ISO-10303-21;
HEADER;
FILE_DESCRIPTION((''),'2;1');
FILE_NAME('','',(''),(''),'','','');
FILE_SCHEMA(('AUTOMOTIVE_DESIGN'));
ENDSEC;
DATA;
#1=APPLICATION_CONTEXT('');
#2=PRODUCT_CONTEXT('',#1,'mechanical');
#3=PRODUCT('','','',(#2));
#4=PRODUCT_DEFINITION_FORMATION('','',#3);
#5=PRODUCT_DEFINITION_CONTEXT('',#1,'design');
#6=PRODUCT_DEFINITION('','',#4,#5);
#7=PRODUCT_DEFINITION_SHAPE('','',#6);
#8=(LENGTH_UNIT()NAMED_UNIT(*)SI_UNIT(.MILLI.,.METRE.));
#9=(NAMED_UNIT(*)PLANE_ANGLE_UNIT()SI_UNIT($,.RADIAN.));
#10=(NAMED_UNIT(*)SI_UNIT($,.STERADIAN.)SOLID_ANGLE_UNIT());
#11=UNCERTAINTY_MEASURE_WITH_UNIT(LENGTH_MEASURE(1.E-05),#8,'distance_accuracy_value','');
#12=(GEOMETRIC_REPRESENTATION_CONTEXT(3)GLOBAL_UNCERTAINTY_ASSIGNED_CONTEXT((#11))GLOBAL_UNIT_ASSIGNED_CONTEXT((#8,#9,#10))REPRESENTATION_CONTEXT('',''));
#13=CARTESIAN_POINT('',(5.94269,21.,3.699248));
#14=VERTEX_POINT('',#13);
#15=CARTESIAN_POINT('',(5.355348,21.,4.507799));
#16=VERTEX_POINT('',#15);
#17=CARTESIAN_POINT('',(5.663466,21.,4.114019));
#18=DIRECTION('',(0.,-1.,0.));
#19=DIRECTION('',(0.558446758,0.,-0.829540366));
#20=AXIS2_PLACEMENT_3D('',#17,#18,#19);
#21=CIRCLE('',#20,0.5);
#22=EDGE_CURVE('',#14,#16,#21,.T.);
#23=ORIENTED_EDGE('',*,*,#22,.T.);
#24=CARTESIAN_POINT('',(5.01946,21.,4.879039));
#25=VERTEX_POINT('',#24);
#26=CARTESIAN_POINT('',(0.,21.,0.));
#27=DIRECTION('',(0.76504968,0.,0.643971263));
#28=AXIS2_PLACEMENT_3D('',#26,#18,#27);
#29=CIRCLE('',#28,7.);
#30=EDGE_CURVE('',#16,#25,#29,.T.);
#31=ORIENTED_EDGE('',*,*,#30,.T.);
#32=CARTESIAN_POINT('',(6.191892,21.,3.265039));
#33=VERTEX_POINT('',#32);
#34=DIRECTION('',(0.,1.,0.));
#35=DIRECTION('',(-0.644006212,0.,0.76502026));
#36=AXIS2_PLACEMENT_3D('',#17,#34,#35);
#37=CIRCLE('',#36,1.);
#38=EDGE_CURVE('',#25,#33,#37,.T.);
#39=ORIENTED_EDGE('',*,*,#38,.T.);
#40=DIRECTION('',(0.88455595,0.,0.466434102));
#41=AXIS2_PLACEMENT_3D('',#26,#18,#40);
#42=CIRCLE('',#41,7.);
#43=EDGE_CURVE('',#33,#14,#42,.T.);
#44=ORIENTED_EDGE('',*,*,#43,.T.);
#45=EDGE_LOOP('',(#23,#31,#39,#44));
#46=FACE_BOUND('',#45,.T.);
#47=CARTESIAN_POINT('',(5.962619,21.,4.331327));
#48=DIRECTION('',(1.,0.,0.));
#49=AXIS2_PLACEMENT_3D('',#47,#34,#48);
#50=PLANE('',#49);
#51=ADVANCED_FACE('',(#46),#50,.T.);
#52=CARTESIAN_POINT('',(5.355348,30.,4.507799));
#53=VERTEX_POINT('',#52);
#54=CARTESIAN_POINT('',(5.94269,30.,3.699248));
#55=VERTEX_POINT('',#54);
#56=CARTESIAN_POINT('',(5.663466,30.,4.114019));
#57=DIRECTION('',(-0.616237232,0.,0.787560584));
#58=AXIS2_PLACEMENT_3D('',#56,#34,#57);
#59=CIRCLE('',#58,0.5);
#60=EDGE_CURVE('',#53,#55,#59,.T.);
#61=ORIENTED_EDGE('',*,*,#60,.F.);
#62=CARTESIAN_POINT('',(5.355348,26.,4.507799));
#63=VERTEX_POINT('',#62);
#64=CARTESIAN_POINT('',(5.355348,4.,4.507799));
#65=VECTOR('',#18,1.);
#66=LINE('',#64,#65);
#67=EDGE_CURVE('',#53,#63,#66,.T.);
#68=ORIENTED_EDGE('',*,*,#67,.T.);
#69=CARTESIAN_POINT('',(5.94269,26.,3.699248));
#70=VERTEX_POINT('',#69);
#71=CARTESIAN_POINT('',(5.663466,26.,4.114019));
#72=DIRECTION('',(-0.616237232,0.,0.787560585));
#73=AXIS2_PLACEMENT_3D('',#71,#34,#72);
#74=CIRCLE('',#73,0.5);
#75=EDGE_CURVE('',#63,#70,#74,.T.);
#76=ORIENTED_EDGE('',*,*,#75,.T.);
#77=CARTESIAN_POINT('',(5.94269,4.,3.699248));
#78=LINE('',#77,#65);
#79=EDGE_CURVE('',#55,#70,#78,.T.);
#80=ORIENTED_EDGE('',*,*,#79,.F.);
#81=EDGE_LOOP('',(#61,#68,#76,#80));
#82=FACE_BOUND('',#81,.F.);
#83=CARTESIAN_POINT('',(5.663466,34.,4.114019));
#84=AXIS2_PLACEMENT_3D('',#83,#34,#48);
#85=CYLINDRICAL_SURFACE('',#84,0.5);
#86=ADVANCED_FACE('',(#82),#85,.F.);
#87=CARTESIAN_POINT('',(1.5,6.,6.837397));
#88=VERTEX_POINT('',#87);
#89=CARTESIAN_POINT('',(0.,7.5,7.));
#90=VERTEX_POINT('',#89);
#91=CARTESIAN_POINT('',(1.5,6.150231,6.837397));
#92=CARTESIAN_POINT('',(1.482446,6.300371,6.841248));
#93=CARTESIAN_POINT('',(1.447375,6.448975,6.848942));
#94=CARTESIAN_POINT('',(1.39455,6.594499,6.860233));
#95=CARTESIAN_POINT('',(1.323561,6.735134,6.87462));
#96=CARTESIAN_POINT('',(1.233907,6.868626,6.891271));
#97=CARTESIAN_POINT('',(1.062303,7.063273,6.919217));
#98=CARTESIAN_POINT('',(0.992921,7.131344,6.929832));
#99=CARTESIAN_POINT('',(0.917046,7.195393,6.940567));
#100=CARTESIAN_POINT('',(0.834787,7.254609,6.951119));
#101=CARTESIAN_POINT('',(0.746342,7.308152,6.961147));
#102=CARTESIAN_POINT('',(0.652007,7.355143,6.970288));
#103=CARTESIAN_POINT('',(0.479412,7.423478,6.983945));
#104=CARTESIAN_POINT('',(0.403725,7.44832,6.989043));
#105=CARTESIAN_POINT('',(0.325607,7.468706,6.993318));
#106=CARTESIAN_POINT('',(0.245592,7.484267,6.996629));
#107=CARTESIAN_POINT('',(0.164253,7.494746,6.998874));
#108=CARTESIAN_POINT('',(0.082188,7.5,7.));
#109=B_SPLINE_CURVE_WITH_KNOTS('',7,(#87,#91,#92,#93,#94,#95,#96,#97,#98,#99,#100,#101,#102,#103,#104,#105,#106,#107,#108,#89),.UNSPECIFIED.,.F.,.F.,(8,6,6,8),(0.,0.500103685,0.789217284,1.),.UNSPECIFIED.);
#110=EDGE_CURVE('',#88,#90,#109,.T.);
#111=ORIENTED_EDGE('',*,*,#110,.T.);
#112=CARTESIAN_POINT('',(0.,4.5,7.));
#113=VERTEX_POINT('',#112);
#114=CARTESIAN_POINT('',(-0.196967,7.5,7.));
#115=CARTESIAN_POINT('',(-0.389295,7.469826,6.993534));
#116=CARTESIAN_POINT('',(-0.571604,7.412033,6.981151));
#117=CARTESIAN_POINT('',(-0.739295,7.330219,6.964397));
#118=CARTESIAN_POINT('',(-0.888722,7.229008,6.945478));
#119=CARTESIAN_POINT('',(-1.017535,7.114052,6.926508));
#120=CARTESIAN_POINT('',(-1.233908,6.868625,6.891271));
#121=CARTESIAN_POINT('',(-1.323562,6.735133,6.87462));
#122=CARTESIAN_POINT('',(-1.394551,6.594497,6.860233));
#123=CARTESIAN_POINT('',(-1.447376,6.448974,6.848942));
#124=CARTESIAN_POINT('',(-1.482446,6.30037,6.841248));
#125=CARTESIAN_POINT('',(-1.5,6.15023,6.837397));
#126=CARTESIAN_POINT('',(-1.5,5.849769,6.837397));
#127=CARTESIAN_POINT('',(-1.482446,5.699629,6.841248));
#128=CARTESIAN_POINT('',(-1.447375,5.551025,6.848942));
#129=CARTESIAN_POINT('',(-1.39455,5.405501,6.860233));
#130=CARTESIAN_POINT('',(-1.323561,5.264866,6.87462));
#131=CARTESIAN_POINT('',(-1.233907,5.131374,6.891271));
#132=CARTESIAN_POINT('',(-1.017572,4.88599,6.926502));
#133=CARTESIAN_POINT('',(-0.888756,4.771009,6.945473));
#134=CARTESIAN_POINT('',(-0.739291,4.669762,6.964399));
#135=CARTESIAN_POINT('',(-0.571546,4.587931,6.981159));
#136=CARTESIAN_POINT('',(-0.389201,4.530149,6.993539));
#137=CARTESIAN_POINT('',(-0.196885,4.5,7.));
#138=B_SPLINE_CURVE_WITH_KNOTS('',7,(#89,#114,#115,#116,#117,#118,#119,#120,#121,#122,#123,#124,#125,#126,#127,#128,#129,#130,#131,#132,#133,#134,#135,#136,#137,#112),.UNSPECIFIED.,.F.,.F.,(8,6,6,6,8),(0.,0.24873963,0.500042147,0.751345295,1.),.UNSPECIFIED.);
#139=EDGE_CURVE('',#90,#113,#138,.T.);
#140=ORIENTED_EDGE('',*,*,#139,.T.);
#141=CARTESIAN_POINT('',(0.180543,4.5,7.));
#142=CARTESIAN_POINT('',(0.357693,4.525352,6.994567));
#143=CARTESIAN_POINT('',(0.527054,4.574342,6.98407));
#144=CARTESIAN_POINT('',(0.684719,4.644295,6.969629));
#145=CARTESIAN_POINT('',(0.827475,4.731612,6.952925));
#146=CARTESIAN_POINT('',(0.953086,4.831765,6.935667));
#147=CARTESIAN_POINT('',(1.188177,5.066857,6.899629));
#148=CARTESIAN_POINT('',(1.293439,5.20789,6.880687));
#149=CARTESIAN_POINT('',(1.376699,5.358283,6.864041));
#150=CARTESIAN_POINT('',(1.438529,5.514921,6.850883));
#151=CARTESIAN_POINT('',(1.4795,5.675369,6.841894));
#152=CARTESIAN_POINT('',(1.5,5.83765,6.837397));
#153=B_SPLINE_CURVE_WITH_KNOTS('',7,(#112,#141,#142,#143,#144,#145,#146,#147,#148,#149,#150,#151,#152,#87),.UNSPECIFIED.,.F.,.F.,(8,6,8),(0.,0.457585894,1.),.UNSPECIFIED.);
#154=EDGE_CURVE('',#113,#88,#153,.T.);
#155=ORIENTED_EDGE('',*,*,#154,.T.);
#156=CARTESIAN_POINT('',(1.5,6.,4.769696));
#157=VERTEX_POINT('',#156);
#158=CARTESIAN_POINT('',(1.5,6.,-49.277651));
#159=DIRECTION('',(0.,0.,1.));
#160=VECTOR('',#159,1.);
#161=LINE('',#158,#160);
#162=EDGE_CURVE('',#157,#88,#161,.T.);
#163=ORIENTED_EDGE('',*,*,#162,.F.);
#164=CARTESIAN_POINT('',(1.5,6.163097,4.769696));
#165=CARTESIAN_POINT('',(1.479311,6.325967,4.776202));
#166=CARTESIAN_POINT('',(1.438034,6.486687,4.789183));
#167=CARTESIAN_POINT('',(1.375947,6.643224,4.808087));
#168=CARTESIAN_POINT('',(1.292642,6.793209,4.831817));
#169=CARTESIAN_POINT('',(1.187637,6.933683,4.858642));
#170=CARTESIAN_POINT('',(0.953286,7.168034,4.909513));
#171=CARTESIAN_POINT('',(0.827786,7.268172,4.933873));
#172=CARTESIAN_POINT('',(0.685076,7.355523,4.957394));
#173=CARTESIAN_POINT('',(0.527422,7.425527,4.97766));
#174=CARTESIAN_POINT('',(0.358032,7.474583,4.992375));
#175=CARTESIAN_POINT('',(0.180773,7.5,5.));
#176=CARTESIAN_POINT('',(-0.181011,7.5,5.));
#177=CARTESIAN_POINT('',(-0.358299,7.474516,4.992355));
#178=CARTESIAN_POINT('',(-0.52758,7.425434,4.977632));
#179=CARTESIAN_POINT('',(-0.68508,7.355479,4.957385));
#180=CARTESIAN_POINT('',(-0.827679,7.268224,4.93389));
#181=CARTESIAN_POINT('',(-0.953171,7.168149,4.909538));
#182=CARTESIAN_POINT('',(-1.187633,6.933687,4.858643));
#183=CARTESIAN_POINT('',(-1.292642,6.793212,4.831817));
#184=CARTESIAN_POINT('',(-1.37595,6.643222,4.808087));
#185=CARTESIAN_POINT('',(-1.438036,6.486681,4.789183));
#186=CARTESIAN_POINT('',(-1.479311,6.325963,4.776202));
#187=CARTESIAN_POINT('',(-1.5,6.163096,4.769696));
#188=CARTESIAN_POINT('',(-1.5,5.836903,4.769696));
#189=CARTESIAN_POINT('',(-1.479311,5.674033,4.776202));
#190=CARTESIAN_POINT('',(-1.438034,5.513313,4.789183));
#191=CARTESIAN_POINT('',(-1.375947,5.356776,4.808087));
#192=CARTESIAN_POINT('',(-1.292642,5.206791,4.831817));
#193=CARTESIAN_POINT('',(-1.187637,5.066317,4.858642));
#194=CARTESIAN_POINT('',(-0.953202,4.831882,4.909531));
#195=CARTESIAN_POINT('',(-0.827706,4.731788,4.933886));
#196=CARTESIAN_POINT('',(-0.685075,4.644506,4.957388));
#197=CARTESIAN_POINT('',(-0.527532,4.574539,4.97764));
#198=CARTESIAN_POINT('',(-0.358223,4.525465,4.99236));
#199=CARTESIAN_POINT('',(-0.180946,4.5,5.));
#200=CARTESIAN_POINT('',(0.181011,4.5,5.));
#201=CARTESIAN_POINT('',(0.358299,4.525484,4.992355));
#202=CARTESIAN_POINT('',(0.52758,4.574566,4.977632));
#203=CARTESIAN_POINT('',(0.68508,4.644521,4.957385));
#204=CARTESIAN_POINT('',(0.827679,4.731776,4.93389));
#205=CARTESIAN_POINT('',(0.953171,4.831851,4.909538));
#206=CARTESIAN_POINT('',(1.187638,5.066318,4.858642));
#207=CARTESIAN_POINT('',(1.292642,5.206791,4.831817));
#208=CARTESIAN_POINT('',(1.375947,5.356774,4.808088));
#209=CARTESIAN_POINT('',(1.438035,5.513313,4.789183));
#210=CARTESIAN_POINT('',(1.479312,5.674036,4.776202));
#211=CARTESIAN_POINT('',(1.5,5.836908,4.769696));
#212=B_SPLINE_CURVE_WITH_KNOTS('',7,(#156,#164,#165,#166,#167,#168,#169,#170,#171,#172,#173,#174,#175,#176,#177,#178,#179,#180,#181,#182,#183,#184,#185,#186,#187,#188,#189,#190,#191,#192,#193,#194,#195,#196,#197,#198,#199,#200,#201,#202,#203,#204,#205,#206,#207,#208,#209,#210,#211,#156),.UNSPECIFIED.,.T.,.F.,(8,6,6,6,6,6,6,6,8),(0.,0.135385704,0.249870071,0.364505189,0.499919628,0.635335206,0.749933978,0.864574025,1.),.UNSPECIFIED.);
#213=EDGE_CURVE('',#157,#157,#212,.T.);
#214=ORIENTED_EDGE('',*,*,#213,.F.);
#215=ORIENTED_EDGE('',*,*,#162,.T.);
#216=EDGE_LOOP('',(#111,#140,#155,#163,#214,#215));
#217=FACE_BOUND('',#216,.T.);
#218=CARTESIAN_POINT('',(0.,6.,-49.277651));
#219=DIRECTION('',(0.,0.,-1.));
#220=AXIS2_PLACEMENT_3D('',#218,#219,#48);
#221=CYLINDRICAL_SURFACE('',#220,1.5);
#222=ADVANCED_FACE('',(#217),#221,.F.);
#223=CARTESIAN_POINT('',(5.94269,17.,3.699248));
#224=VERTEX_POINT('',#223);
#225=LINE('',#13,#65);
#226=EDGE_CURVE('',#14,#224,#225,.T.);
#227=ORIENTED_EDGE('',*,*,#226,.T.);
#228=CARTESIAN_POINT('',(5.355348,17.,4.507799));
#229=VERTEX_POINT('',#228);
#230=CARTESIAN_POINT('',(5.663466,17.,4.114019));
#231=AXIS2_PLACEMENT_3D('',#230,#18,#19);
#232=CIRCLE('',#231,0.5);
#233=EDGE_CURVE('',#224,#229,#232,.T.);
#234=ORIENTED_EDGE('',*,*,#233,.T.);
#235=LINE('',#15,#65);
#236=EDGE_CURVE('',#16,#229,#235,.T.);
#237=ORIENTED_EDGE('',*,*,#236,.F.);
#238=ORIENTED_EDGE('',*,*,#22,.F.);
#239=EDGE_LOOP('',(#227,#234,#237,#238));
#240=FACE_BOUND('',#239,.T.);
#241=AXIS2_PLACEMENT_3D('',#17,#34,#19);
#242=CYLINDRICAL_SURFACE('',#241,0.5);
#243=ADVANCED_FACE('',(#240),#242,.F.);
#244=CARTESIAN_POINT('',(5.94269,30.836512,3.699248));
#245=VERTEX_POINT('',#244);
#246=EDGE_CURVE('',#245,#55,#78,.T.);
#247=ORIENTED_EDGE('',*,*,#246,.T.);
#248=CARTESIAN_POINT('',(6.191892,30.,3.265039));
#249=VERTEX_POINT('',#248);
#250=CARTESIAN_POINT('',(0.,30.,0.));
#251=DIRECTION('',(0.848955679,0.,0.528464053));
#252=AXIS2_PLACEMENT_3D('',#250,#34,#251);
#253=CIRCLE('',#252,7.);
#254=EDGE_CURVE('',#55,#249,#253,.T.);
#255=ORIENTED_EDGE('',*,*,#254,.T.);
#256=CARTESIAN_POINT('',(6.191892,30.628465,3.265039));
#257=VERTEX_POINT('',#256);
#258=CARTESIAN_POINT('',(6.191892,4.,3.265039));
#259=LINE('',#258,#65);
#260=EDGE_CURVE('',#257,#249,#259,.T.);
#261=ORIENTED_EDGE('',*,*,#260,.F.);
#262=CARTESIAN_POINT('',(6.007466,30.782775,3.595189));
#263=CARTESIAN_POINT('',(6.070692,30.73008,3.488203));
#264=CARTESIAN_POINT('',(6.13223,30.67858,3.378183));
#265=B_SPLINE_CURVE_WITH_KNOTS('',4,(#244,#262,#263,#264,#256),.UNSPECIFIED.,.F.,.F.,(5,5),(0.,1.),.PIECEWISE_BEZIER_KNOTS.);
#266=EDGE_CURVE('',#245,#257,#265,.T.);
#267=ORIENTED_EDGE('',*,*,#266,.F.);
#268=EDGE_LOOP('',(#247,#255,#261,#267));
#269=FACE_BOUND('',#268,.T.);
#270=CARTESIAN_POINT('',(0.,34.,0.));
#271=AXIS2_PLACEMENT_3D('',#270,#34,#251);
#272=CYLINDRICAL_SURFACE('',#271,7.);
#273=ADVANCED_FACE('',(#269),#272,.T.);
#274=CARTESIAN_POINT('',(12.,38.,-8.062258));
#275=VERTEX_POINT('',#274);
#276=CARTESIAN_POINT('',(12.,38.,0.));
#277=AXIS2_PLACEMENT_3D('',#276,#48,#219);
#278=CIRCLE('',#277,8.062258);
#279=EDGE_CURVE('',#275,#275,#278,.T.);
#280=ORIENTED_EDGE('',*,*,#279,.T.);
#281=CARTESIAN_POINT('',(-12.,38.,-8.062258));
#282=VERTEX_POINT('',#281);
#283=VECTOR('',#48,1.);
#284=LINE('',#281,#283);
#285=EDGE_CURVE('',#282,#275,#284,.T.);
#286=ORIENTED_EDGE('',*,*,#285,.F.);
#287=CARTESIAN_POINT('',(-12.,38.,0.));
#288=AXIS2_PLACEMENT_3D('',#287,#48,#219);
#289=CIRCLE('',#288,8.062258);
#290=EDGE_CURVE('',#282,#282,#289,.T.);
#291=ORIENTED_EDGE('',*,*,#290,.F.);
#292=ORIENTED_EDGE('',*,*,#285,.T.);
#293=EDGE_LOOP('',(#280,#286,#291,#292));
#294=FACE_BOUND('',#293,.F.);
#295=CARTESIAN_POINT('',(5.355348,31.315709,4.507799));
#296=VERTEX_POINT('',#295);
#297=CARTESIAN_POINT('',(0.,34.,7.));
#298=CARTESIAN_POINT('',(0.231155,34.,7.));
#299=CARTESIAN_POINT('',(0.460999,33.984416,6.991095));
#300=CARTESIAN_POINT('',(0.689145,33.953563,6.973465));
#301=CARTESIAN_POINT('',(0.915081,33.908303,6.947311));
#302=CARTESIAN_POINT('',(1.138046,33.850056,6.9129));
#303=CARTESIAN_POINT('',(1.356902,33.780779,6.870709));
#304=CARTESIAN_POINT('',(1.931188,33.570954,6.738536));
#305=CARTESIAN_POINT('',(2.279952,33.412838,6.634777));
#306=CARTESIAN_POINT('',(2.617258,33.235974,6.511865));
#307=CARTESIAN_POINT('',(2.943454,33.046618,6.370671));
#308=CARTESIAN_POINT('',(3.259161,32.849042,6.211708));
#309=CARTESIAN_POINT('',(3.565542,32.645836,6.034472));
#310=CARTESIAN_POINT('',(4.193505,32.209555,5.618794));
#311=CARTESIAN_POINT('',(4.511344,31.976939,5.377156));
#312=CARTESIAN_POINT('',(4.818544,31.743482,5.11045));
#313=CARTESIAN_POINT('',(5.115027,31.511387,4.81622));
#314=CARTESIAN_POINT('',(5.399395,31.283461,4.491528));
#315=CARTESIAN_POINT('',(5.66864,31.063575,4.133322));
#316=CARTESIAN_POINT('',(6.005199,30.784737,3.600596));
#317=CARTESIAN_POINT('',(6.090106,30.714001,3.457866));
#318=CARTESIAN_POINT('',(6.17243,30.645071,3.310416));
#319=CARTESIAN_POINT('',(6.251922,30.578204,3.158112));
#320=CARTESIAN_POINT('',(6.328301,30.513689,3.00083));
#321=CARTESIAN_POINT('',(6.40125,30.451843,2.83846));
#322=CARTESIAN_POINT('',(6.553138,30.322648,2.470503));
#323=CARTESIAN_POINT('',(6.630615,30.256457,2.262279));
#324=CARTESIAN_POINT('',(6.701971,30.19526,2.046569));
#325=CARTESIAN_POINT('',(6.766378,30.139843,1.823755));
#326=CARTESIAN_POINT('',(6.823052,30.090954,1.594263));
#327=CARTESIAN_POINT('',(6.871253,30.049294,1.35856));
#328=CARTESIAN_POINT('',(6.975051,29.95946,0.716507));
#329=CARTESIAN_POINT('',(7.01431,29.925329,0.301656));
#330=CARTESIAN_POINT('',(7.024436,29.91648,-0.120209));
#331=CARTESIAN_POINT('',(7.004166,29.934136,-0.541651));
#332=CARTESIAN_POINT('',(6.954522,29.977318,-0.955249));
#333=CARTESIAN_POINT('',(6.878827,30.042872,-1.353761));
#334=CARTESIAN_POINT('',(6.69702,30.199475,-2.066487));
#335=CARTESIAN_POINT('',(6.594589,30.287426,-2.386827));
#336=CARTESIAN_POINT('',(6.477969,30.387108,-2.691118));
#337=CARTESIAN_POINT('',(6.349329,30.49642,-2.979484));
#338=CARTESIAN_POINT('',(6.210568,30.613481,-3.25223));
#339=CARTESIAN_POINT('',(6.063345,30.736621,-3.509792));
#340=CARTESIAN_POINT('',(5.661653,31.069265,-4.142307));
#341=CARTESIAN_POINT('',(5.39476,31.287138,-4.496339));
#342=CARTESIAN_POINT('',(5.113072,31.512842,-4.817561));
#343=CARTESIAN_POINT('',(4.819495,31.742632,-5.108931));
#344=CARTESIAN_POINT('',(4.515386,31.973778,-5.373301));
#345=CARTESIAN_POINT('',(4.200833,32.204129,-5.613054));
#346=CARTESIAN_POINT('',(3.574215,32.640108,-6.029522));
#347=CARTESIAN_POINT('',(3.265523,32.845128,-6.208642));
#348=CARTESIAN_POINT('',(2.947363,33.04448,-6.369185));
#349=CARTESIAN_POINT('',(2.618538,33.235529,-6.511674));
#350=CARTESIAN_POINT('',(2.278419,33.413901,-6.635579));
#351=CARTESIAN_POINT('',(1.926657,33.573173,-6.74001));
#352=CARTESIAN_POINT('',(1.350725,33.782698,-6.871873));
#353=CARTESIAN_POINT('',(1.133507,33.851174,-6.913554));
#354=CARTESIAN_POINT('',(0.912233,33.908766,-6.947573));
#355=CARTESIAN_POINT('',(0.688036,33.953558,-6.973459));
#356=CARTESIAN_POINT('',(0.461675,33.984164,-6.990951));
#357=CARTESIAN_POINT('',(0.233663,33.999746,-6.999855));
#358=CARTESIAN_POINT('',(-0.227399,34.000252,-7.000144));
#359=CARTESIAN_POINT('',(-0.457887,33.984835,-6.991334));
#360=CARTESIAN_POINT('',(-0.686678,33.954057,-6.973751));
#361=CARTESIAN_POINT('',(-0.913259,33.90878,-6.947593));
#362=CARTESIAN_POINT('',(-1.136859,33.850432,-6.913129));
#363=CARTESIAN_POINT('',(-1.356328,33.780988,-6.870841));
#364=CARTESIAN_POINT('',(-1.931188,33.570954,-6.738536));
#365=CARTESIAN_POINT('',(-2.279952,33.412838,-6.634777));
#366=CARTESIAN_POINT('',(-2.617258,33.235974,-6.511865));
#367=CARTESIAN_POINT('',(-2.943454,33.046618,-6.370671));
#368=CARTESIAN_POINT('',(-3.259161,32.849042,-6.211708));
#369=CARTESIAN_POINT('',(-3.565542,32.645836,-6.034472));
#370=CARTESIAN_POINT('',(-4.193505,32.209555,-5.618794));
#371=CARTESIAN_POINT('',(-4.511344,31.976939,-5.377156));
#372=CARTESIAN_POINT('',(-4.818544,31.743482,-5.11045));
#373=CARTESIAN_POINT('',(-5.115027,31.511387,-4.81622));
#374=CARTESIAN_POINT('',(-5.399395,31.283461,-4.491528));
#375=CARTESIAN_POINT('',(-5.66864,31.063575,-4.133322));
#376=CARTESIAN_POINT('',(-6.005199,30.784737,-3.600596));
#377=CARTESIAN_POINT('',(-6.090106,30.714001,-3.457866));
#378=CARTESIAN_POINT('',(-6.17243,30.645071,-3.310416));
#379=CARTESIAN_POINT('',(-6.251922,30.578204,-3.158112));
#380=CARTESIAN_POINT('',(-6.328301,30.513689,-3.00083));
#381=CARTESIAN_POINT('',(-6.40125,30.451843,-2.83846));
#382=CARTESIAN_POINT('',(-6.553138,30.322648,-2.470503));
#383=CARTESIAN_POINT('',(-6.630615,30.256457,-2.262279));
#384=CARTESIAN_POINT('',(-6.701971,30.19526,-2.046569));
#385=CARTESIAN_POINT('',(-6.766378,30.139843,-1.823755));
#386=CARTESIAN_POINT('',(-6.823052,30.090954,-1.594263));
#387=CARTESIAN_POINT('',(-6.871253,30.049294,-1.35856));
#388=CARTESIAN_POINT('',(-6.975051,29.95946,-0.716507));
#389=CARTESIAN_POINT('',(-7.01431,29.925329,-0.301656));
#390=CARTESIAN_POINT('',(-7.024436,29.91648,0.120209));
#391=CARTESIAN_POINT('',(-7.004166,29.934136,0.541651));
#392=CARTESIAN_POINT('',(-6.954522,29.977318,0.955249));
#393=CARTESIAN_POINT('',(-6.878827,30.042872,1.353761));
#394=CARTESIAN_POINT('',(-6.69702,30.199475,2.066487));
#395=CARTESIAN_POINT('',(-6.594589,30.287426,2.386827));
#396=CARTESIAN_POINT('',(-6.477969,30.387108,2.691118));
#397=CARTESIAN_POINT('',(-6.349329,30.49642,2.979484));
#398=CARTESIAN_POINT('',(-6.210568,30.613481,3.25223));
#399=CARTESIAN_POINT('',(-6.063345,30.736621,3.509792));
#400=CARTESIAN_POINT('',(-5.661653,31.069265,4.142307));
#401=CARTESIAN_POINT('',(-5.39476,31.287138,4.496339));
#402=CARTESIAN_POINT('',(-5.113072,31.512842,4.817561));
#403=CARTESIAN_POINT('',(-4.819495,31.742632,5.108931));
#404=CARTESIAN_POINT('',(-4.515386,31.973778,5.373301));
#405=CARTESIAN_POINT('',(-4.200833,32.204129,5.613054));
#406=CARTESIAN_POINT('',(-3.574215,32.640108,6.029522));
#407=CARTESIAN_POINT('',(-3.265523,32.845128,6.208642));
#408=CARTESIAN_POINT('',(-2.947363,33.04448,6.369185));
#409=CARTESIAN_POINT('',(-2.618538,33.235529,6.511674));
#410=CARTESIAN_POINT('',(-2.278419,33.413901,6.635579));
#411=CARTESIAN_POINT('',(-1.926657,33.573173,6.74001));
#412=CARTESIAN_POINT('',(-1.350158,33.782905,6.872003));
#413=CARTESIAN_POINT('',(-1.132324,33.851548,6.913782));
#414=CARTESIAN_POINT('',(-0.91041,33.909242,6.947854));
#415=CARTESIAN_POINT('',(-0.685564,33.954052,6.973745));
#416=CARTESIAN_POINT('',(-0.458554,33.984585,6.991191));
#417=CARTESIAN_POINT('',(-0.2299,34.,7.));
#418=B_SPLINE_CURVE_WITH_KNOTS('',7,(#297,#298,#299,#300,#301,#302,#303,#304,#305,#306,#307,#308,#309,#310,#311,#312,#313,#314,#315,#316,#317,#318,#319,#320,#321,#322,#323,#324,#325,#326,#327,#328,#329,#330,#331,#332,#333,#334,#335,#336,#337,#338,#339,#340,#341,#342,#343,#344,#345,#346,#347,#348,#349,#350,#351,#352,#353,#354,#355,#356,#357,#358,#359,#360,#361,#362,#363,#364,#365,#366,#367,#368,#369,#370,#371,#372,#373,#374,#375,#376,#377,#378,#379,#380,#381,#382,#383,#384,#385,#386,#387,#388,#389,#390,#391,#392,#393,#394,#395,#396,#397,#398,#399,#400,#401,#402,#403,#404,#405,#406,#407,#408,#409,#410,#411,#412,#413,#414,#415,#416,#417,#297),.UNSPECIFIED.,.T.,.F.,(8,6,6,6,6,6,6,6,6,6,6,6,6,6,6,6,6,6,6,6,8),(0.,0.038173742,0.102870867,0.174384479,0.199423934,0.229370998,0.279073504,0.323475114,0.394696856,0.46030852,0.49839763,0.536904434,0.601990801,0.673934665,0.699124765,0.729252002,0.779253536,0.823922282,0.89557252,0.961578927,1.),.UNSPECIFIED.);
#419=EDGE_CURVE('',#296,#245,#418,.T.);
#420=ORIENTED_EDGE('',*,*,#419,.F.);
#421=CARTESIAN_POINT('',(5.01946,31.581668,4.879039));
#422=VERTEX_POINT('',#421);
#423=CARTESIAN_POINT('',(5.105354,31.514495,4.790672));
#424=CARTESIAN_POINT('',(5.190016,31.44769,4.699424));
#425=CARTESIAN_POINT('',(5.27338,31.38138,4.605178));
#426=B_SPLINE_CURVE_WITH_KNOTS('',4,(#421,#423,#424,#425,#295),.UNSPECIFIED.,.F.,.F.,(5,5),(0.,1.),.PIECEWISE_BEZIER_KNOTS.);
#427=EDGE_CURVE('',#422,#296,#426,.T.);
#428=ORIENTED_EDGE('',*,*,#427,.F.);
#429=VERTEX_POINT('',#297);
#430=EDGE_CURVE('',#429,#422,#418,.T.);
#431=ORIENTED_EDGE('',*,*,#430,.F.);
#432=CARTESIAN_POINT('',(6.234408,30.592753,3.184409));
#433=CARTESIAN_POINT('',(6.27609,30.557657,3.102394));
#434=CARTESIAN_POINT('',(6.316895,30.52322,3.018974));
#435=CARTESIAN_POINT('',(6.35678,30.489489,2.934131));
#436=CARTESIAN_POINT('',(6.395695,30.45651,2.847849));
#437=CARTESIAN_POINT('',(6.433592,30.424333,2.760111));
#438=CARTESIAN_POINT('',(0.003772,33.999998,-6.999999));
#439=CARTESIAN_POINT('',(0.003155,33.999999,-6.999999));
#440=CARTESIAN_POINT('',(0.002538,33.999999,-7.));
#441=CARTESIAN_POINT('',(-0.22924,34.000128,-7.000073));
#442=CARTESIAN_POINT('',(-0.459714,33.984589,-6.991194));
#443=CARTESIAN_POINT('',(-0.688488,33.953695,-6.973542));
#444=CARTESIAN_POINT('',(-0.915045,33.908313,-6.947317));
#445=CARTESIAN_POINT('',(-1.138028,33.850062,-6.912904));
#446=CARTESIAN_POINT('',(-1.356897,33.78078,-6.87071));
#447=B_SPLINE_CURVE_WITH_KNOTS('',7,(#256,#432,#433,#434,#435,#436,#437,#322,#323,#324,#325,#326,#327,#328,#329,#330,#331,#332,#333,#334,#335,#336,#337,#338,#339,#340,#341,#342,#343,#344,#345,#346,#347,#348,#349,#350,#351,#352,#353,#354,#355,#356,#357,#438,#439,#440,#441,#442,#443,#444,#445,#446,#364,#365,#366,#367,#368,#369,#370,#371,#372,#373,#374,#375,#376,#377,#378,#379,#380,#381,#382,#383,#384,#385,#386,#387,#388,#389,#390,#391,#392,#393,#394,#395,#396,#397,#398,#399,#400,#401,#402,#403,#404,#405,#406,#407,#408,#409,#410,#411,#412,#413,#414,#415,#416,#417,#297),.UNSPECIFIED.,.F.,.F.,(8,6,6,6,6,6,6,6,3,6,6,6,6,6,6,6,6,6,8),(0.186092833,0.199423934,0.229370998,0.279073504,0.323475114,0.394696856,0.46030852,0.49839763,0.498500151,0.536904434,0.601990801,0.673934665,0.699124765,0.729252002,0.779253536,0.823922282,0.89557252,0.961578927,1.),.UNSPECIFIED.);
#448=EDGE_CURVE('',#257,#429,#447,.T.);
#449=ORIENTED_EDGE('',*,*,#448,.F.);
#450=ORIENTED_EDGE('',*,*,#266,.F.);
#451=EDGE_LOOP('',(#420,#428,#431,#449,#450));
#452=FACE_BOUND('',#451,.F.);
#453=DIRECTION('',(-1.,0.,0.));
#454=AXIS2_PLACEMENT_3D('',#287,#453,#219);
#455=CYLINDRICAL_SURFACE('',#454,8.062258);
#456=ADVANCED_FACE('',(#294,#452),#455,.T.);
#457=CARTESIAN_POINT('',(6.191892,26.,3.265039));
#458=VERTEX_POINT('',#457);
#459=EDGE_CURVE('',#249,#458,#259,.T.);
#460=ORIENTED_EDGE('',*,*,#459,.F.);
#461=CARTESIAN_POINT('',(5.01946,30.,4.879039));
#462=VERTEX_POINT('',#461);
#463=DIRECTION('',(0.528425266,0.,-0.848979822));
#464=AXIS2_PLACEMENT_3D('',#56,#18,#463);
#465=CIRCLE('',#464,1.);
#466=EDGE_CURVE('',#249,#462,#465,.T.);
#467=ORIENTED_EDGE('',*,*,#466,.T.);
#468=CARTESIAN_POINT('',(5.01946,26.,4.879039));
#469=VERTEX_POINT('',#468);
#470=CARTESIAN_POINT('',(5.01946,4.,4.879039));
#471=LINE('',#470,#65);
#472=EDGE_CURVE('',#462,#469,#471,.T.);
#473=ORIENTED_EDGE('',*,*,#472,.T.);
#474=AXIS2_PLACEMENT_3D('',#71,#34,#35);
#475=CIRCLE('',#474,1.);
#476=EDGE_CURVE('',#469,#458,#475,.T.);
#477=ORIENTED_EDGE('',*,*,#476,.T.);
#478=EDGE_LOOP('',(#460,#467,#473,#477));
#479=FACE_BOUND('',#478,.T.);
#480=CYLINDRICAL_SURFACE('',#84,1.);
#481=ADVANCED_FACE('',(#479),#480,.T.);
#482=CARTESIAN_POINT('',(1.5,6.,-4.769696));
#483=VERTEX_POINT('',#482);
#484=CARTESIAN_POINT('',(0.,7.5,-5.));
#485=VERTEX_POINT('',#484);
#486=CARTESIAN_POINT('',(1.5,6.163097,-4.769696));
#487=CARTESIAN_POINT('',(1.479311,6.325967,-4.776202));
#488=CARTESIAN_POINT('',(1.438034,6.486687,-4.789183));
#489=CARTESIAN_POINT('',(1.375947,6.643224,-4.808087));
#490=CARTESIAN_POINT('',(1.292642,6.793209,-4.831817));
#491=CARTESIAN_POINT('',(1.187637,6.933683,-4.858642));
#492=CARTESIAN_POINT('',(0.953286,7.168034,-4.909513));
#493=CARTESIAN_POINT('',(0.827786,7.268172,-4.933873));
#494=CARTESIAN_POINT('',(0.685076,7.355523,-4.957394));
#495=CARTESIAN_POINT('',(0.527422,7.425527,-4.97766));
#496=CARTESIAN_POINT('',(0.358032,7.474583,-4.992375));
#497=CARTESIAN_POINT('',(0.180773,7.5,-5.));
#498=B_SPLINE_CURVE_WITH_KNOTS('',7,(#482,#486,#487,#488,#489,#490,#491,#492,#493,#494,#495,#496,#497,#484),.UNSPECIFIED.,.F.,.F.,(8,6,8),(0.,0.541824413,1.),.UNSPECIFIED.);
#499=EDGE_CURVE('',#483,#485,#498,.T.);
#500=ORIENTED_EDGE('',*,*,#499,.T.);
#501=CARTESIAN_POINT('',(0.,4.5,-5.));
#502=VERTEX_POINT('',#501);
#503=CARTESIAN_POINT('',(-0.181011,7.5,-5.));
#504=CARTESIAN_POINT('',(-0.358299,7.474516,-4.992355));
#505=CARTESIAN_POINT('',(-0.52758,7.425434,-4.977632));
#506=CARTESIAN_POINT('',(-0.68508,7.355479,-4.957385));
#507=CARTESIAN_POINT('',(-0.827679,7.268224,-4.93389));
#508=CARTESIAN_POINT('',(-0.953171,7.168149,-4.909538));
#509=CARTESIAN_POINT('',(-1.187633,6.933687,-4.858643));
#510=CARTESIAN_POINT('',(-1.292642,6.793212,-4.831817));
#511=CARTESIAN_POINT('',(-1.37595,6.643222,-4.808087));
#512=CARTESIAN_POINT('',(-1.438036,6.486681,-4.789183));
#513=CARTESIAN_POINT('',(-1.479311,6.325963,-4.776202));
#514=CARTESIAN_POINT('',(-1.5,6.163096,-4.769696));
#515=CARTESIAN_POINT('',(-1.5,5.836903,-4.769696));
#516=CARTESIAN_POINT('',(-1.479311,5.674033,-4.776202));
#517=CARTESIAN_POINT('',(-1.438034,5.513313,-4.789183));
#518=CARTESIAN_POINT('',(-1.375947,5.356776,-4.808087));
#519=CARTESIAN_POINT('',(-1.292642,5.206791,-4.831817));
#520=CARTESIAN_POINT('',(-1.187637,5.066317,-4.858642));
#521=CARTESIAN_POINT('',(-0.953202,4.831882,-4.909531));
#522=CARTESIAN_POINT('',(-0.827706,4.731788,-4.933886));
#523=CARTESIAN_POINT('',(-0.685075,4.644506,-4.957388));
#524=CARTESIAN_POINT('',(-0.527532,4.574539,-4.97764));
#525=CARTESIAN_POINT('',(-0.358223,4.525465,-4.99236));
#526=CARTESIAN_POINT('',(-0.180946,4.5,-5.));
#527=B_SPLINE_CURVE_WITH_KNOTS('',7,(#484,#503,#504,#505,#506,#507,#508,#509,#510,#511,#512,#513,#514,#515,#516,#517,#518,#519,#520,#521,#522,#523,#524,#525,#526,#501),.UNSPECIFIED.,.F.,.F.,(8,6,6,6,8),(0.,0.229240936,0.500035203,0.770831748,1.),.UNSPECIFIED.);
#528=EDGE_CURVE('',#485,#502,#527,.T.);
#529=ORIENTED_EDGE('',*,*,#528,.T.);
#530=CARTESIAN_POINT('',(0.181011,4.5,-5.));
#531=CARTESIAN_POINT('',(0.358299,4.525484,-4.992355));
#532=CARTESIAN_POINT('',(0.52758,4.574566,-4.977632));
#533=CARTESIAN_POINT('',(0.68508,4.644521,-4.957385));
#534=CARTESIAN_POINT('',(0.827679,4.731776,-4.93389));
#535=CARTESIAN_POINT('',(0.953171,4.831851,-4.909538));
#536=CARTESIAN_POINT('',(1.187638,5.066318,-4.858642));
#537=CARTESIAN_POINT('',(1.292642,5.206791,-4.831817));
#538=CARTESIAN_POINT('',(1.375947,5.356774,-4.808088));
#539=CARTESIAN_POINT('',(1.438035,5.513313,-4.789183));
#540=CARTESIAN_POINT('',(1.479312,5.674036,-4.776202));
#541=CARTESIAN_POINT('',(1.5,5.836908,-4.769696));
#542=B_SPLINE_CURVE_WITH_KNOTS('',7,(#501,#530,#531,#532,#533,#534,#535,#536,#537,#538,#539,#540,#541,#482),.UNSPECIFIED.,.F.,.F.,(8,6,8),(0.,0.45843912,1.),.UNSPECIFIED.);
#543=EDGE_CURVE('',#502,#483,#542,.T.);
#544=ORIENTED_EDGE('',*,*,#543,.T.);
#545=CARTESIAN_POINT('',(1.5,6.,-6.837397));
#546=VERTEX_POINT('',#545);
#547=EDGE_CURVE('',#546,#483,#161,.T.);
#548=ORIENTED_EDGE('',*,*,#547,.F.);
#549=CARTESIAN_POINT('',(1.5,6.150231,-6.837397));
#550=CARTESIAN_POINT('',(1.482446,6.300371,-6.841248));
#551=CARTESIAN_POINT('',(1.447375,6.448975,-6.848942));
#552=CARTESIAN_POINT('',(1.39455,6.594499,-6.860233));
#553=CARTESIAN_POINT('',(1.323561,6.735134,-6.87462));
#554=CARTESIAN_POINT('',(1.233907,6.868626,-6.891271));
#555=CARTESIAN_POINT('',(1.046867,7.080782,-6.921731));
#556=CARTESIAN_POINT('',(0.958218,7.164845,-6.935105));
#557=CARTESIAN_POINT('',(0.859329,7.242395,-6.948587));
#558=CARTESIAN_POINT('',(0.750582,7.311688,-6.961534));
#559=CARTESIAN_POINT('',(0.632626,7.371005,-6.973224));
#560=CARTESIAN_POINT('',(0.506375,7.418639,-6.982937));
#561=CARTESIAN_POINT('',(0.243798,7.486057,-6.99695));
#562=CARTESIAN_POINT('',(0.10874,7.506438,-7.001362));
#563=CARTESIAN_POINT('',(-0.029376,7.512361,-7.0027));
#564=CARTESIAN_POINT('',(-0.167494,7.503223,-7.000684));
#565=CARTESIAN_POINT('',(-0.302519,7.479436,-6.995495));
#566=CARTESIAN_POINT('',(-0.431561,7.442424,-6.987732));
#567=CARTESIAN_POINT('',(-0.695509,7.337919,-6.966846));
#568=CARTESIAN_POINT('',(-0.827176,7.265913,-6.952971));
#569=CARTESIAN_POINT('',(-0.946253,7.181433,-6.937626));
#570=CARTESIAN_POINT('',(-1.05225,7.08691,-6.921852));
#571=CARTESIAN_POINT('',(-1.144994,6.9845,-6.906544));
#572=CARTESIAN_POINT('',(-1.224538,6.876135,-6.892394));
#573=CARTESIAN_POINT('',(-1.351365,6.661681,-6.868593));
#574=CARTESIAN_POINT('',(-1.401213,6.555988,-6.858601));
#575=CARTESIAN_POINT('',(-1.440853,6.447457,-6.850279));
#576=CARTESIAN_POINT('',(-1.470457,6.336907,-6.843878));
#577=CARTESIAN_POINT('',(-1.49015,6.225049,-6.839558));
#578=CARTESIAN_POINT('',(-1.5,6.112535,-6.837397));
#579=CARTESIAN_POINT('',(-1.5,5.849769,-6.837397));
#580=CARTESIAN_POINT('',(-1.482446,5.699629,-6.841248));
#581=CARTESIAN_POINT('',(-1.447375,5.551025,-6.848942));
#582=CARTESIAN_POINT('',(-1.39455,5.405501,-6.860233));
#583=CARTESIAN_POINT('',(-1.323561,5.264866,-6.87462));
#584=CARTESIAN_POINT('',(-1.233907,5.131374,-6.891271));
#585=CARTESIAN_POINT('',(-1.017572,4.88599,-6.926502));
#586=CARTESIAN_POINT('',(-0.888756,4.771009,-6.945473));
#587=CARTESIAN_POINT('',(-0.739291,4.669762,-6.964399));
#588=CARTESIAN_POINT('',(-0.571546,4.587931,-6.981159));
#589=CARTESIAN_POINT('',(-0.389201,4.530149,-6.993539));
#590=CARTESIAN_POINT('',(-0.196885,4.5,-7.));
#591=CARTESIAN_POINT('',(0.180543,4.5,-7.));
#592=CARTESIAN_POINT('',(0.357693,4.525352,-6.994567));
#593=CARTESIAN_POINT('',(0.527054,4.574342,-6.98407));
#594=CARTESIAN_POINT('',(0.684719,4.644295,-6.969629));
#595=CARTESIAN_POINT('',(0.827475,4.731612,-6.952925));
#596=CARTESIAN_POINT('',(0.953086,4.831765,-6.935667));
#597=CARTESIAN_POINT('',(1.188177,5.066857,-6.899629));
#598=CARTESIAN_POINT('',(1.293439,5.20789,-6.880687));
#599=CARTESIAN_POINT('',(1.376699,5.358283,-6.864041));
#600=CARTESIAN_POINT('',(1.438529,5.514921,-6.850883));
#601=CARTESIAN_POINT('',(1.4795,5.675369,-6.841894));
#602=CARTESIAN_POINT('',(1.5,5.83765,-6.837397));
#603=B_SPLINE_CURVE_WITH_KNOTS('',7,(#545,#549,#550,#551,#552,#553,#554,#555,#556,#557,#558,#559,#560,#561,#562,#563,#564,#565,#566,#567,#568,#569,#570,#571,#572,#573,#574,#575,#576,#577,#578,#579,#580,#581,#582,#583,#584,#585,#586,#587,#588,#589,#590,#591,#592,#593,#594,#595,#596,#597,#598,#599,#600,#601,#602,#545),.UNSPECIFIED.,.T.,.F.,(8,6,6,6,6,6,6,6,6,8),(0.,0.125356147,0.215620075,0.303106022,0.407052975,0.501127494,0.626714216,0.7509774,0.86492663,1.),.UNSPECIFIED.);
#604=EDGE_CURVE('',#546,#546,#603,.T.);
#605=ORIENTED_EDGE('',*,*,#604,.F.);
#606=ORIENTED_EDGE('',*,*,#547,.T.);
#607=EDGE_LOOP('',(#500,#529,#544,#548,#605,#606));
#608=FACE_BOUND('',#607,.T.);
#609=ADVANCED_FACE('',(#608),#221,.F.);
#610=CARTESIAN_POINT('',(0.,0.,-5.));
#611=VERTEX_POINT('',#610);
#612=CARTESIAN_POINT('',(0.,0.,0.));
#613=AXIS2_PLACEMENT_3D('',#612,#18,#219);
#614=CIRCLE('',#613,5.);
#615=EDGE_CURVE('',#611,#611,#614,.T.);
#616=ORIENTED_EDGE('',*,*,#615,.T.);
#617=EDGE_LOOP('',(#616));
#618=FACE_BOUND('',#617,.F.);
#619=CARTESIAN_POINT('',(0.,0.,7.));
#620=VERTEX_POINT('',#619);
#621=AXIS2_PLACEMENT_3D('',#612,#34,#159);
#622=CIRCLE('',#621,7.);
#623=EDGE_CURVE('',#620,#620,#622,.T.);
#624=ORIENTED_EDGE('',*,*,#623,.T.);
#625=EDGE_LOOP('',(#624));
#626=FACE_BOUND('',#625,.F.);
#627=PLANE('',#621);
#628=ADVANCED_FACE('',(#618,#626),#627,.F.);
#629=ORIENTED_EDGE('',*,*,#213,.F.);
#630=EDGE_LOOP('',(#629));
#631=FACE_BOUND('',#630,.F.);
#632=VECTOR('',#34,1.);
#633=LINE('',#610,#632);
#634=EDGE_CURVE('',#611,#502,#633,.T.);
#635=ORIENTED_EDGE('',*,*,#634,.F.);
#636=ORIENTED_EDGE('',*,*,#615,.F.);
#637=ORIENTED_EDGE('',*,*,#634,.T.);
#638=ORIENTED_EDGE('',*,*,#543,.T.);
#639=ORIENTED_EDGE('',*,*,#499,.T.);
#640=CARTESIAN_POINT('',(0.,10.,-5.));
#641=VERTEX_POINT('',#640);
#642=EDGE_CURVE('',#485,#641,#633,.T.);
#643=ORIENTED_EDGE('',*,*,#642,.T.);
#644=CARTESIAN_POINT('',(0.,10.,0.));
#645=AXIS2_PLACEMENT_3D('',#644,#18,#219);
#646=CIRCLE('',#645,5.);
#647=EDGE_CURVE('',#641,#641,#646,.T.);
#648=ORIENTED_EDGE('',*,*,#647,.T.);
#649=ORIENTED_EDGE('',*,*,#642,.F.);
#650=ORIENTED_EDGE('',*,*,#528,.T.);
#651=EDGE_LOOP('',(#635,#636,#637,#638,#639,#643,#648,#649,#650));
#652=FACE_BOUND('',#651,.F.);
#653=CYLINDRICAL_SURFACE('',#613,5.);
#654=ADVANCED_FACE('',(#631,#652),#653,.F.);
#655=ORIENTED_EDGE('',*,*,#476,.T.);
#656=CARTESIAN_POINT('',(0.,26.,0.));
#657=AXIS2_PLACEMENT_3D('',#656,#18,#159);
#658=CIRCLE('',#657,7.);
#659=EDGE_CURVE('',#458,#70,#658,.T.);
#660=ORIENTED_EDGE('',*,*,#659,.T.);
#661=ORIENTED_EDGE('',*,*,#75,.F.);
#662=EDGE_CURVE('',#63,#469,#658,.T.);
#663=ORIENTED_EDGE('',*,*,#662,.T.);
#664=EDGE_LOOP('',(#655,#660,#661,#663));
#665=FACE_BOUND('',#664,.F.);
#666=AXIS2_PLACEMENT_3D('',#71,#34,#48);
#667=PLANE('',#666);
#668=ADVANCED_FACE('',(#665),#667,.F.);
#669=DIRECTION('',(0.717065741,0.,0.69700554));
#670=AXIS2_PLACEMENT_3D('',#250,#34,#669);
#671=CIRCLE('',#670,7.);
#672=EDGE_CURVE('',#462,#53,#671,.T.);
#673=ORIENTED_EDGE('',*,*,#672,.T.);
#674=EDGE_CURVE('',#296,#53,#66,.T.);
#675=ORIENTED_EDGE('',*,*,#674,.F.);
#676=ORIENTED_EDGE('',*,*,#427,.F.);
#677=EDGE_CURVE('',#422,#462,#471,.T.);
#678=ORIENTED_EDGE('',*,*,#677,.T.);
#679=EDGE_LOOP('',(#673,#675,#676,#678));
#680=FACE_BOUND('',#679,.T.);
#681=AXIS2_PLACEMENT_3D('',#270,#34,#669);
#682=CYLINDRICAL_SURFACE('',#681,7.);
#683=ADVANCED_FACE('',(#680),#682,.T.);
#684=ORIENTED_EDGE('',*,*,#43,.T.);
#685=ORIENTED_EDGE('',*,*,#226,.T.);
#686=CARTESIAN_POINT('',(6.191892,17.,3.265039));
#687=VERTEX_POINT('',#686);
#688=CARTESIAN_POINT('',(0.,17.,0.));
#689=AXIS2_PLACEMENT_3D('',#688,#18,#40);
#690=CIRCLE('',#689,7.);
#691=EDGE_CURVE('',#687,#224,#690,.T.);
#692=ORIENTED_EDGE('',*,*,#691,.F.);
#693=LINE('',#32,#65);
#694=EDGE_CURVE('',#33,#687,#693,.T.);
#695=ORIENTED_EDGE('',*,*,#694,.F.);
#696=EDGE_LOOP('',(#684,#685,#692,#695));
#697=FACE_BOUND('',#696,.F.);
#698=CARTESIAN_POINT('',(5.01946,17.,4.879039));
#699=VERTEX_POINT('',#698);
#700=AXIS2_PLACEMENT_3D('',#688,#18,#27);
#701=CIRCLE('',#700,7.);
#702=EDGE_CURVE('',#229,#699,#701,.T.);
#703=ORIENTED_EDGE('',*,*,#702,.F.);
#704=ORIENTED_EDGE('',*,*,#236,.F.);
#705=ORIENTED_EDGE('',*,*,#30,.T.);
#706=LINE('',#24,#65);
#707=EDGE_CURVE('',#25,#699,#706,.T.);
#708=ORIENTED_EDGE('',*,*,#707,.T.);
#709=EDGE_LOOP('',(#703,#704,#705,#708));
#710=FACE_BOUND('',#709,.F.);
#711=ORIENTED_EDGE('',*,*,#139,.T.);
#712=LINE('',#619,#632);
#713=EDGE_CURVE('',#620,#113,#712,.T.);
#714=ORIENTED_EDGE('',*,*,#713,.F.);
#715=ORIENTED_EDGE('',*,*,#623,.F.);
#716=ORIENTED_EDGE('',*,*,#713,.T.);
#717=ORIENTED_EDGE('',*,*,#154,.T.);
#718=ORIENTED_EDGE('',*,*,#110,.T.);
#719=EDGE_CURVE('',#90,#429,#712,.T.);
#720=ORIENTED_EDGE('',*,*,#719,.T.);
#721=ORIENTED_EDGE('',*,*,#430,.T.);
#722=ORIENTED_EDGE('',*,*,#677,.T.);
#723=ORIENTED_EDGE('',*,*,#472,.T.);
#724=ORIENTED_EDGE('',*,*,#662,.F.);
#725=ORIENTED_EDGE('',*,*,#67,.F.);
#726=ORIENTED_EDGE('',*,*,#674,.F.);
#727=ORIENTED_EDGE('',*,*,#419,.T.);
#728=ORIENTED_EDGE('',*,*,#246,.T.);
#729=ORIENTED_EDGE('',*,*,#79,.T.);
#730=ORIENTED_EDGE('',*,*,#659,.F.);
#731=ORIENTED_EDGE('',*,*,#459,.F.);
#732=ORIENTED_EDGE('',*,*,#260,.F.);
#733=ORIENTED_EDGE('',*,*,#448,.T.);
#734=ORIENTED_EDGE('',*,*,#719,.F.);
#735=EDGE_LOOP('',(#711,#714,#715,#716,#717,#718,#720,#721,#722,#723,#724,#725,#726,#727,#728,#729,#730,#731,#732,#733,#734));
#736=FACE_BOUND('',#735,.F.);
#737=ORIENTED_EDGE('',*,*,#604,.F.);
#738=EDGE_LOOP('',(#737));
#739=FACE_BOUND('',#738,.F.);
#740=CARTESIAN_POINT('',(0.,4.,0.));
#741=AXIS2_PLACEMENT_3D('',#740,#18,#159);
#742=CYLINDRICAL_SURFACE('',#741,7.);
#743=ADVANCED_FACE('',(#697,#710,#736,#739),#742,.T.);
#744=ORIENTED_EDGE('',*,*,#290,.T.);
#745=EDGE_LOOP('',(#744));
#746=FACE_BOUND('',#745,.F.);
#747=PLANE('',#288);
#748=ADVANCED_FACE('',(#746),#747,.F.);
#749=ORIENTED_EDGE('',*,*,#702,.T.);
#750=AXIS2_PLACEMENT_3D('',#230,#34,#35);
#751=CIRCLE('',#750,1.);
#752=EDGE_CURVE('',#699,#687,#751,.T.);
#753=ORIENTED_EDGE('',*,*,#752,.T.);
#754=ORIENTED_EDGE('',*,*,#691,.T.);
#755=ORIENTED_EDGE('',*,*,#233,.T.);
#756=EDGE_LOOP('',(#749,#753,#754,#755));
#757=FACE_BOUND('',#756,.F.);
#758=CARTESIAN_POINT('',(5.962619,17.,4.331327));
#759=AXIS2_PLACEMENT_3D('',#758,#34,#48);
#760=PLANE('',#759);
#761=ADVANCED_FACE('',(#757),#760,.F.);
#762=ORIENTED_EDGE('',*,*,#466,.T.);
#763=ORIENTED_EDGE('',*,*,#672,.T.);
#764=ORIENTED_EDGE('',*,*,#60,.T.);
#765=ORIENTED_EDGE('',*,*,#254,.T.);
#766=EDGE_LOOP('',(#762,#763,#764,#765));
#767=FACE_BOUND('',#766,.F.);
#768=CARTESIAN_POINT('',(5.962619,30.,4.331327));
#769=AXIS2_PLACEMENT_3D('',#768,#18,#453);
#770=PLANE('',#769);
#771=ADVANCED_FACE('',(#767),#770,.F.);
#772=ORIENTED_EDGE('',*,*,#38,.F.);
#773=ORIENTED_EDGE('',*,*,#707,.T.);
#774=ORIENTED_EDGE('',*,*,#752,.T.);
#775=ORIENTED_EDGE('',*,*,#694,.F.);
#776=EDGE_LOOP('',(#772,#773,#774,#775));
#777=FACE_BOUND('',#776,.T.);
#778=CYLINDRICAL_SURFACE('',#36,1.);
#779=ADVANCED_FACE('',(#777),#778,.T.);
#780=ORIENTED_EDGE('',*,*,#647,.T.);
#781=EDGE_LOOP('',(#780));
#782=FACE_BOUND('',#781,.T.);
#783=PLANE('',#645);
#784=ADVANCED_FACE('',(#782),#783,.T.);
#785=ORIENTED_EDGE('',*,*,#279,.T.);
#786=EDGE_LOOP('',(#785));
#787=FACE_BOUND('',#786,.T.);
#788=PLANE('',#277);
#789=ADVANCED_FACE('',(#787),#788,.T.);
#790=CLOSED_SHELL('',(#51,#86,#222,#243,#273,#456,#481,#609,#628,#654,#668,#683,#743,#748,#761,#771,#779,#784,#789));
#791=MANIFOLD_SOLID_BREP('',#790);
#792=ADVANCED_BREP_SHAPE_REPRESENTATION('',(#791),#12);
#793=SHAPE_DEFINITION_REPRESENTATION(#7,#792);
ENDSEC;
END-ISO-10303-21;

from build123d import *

# Parameters (mm, degrees)
SKETCH_1_R               = 7
EXTRUDE_1_DEPTH          = 4
SKETCH_2_R               = 7
EXTRUDE_2_DEPTH          = 30
SKETCH_4_R               = 1
SKETCH_4_R_2             = 0.5
EXTRUDE_3_DEPTH          = 8
EXTRUDE_4_DEPTH          = 4
CUT_EXTRUDE_1_DEPTH      = 4
EXTRUDE_5_DEPTH          = 12
EXTRUDE_5_DEPTH_BACK     = 12
SKETCH_9_R               = 8.062257748
SKETCH_12_R              = 5
CUT_EXTRUDE_2_DEPTH      = 10
CUT_EXTRUDE_3_DEPTH      = 49.277651166
CUT_EXTRUDE_3_DEPTH_BACK = 49.277651166
SKETCH_13_R              = 1.5


with BuildPart() as part:
    # 草图1 → 凸台-拉伸1 (new body)
    with BuildSketch(Plane(origin=(0, 0, 0), x_dir=(1, 0, 0), z_dir=(0, 1, 0))):
        with Locations(Location((0, 0, 0), (0, 0, 270))):
            Circle(SKETCH_1_R)
    extrude(amount=EXTRUDE_1_DEPTH)

    # 草图2 → 凸台-拉伸2 (add)
    with BuildSketch(Plane(origin=(0, 4, 0), x_dir=(1, 0, 0), z_dir=(0, 1, 0))):
        with Locations(Location((0, 0, 0), (0, 0, 270))):
            Circle(SKETCH_2_R)
    extrude(amount=EXTRUDE_2_DEPTH)

    # 草图4 → 凸台-拉伸3 (add)
    with BuildSketch(Plane(origin=(0, 34, 0), x_dir=(1, 0, 0), z_dir=(0, 1, 0))):
        with Locations((5.663466382, -4.114018539)):
            Circle(SKETCH_4_R)
        with Locations((5.663466382, -4.114018539)):
            Circle(SKETCH_4_R_2, mode=Mode.SUBTRACT)
    extrude(amount=-EXTRUDE_3_DEPTH)

    # 草图5 → 凸台-拉伸4 (add)
    with BuildSketch(Plane(origin=(0, 21, 0), x_dir=(-1, 0, 0), z_dir=(0, -1, 0))):
        with BuildLine():
            ThreePointArc((-5.355347766, -4.507798831), (-5.190723909, -4.696422606), (-5.01946017, -4.879038799))
            ThreePointArc((-5.01946017, -4.879038799), (-6.472533008, -4.701735473), (-6.191891648, -3.265038717))
            ThreePointArc((-6.191891648, -3.265038717), (-6.071173774, -3.484372111), (-5.942689761, -3.699248356))
            ThreePointArc((-5.942689761, -3.699248356), (-6.067999695, -4.407877006), (-5.355347766, -4.507798831))
        make_face()
    extrude(amount=EXTRUDE_4_DEPTH)

    # 草图10 → 切除-拉伸1 (cut)
    with BuildSketch(Plane(origin=(0, 34, 0), x_dir=(1, 0, 0), z_dir=(0, 1, 0))):
        with BuildLine():
            ThreePointArc((5.355347766, -4.507798831), (6.067999695, -4.407877006), (5.942689761, -3.699248356))
            ThreePointArc((5.942689761, -3.699248356), (6.071173774, -3.484372111), (6.191891648, -3.265038717))
            ThreePointArc((6.191891648, -3.265038717), (6.472533008, -4.701735473), (5.01946017, -4.879038799))
            ThreePointArc((5.01946017, -4.879038799), (5.190723909, -4.696422606), (5.355347766, -4.507798831))
        make_face()
    extrude(amount=-CUT_EXTRUDE_1_DEPTH, mode=Mode.SUBTRACT)

    # 草图9 → 凸台-拉伸5 (add, two sides: drawn at the far end of the back side and taken through both)
    with BuildSketch(Plane(origin=(0, 0, 0), x_dir=(0, 0, -1), z_dir=(1, 0, 0)).offset(-EXTRUDE_5_DEPTH_BACK)):
        with Locations((0, 38)):
            Circle(SKETCH_9_R)
    extrude(amount=EXTRUDE_5_DEPTH + EXTRUDE_5_DEPTH_BACK)

    # 草图12 → 切除-拉伸2 (cut)
    with BuildSketch(Plane.XZ):
        with Locations(Location((0, 0, 0), (0, 0, 270))):
            Circle(SKETCH_12_R)
    extrude(amount=-CUT_EXTRUDE_2_DEPTH, mode=Mode.SUBTRACT)

    # 草图13 → 切除-拉伸3 (cut, two sides: drawn at the far end of the back side and taken through both)
    with BuildSketch(Plane.XY.offset(-CUT_EXTRUDE_3_DEPTH_BACK)):
        with Locations((0, 6)):
            Circle(SKETCH_13_R)
    extrude(amount=CUT_EXTRUDE_3_DEPTH + CUT_EXTRUDE_3_DEPTH_BACK, mode=Mode.SUBTRACT)


solid = part.part
